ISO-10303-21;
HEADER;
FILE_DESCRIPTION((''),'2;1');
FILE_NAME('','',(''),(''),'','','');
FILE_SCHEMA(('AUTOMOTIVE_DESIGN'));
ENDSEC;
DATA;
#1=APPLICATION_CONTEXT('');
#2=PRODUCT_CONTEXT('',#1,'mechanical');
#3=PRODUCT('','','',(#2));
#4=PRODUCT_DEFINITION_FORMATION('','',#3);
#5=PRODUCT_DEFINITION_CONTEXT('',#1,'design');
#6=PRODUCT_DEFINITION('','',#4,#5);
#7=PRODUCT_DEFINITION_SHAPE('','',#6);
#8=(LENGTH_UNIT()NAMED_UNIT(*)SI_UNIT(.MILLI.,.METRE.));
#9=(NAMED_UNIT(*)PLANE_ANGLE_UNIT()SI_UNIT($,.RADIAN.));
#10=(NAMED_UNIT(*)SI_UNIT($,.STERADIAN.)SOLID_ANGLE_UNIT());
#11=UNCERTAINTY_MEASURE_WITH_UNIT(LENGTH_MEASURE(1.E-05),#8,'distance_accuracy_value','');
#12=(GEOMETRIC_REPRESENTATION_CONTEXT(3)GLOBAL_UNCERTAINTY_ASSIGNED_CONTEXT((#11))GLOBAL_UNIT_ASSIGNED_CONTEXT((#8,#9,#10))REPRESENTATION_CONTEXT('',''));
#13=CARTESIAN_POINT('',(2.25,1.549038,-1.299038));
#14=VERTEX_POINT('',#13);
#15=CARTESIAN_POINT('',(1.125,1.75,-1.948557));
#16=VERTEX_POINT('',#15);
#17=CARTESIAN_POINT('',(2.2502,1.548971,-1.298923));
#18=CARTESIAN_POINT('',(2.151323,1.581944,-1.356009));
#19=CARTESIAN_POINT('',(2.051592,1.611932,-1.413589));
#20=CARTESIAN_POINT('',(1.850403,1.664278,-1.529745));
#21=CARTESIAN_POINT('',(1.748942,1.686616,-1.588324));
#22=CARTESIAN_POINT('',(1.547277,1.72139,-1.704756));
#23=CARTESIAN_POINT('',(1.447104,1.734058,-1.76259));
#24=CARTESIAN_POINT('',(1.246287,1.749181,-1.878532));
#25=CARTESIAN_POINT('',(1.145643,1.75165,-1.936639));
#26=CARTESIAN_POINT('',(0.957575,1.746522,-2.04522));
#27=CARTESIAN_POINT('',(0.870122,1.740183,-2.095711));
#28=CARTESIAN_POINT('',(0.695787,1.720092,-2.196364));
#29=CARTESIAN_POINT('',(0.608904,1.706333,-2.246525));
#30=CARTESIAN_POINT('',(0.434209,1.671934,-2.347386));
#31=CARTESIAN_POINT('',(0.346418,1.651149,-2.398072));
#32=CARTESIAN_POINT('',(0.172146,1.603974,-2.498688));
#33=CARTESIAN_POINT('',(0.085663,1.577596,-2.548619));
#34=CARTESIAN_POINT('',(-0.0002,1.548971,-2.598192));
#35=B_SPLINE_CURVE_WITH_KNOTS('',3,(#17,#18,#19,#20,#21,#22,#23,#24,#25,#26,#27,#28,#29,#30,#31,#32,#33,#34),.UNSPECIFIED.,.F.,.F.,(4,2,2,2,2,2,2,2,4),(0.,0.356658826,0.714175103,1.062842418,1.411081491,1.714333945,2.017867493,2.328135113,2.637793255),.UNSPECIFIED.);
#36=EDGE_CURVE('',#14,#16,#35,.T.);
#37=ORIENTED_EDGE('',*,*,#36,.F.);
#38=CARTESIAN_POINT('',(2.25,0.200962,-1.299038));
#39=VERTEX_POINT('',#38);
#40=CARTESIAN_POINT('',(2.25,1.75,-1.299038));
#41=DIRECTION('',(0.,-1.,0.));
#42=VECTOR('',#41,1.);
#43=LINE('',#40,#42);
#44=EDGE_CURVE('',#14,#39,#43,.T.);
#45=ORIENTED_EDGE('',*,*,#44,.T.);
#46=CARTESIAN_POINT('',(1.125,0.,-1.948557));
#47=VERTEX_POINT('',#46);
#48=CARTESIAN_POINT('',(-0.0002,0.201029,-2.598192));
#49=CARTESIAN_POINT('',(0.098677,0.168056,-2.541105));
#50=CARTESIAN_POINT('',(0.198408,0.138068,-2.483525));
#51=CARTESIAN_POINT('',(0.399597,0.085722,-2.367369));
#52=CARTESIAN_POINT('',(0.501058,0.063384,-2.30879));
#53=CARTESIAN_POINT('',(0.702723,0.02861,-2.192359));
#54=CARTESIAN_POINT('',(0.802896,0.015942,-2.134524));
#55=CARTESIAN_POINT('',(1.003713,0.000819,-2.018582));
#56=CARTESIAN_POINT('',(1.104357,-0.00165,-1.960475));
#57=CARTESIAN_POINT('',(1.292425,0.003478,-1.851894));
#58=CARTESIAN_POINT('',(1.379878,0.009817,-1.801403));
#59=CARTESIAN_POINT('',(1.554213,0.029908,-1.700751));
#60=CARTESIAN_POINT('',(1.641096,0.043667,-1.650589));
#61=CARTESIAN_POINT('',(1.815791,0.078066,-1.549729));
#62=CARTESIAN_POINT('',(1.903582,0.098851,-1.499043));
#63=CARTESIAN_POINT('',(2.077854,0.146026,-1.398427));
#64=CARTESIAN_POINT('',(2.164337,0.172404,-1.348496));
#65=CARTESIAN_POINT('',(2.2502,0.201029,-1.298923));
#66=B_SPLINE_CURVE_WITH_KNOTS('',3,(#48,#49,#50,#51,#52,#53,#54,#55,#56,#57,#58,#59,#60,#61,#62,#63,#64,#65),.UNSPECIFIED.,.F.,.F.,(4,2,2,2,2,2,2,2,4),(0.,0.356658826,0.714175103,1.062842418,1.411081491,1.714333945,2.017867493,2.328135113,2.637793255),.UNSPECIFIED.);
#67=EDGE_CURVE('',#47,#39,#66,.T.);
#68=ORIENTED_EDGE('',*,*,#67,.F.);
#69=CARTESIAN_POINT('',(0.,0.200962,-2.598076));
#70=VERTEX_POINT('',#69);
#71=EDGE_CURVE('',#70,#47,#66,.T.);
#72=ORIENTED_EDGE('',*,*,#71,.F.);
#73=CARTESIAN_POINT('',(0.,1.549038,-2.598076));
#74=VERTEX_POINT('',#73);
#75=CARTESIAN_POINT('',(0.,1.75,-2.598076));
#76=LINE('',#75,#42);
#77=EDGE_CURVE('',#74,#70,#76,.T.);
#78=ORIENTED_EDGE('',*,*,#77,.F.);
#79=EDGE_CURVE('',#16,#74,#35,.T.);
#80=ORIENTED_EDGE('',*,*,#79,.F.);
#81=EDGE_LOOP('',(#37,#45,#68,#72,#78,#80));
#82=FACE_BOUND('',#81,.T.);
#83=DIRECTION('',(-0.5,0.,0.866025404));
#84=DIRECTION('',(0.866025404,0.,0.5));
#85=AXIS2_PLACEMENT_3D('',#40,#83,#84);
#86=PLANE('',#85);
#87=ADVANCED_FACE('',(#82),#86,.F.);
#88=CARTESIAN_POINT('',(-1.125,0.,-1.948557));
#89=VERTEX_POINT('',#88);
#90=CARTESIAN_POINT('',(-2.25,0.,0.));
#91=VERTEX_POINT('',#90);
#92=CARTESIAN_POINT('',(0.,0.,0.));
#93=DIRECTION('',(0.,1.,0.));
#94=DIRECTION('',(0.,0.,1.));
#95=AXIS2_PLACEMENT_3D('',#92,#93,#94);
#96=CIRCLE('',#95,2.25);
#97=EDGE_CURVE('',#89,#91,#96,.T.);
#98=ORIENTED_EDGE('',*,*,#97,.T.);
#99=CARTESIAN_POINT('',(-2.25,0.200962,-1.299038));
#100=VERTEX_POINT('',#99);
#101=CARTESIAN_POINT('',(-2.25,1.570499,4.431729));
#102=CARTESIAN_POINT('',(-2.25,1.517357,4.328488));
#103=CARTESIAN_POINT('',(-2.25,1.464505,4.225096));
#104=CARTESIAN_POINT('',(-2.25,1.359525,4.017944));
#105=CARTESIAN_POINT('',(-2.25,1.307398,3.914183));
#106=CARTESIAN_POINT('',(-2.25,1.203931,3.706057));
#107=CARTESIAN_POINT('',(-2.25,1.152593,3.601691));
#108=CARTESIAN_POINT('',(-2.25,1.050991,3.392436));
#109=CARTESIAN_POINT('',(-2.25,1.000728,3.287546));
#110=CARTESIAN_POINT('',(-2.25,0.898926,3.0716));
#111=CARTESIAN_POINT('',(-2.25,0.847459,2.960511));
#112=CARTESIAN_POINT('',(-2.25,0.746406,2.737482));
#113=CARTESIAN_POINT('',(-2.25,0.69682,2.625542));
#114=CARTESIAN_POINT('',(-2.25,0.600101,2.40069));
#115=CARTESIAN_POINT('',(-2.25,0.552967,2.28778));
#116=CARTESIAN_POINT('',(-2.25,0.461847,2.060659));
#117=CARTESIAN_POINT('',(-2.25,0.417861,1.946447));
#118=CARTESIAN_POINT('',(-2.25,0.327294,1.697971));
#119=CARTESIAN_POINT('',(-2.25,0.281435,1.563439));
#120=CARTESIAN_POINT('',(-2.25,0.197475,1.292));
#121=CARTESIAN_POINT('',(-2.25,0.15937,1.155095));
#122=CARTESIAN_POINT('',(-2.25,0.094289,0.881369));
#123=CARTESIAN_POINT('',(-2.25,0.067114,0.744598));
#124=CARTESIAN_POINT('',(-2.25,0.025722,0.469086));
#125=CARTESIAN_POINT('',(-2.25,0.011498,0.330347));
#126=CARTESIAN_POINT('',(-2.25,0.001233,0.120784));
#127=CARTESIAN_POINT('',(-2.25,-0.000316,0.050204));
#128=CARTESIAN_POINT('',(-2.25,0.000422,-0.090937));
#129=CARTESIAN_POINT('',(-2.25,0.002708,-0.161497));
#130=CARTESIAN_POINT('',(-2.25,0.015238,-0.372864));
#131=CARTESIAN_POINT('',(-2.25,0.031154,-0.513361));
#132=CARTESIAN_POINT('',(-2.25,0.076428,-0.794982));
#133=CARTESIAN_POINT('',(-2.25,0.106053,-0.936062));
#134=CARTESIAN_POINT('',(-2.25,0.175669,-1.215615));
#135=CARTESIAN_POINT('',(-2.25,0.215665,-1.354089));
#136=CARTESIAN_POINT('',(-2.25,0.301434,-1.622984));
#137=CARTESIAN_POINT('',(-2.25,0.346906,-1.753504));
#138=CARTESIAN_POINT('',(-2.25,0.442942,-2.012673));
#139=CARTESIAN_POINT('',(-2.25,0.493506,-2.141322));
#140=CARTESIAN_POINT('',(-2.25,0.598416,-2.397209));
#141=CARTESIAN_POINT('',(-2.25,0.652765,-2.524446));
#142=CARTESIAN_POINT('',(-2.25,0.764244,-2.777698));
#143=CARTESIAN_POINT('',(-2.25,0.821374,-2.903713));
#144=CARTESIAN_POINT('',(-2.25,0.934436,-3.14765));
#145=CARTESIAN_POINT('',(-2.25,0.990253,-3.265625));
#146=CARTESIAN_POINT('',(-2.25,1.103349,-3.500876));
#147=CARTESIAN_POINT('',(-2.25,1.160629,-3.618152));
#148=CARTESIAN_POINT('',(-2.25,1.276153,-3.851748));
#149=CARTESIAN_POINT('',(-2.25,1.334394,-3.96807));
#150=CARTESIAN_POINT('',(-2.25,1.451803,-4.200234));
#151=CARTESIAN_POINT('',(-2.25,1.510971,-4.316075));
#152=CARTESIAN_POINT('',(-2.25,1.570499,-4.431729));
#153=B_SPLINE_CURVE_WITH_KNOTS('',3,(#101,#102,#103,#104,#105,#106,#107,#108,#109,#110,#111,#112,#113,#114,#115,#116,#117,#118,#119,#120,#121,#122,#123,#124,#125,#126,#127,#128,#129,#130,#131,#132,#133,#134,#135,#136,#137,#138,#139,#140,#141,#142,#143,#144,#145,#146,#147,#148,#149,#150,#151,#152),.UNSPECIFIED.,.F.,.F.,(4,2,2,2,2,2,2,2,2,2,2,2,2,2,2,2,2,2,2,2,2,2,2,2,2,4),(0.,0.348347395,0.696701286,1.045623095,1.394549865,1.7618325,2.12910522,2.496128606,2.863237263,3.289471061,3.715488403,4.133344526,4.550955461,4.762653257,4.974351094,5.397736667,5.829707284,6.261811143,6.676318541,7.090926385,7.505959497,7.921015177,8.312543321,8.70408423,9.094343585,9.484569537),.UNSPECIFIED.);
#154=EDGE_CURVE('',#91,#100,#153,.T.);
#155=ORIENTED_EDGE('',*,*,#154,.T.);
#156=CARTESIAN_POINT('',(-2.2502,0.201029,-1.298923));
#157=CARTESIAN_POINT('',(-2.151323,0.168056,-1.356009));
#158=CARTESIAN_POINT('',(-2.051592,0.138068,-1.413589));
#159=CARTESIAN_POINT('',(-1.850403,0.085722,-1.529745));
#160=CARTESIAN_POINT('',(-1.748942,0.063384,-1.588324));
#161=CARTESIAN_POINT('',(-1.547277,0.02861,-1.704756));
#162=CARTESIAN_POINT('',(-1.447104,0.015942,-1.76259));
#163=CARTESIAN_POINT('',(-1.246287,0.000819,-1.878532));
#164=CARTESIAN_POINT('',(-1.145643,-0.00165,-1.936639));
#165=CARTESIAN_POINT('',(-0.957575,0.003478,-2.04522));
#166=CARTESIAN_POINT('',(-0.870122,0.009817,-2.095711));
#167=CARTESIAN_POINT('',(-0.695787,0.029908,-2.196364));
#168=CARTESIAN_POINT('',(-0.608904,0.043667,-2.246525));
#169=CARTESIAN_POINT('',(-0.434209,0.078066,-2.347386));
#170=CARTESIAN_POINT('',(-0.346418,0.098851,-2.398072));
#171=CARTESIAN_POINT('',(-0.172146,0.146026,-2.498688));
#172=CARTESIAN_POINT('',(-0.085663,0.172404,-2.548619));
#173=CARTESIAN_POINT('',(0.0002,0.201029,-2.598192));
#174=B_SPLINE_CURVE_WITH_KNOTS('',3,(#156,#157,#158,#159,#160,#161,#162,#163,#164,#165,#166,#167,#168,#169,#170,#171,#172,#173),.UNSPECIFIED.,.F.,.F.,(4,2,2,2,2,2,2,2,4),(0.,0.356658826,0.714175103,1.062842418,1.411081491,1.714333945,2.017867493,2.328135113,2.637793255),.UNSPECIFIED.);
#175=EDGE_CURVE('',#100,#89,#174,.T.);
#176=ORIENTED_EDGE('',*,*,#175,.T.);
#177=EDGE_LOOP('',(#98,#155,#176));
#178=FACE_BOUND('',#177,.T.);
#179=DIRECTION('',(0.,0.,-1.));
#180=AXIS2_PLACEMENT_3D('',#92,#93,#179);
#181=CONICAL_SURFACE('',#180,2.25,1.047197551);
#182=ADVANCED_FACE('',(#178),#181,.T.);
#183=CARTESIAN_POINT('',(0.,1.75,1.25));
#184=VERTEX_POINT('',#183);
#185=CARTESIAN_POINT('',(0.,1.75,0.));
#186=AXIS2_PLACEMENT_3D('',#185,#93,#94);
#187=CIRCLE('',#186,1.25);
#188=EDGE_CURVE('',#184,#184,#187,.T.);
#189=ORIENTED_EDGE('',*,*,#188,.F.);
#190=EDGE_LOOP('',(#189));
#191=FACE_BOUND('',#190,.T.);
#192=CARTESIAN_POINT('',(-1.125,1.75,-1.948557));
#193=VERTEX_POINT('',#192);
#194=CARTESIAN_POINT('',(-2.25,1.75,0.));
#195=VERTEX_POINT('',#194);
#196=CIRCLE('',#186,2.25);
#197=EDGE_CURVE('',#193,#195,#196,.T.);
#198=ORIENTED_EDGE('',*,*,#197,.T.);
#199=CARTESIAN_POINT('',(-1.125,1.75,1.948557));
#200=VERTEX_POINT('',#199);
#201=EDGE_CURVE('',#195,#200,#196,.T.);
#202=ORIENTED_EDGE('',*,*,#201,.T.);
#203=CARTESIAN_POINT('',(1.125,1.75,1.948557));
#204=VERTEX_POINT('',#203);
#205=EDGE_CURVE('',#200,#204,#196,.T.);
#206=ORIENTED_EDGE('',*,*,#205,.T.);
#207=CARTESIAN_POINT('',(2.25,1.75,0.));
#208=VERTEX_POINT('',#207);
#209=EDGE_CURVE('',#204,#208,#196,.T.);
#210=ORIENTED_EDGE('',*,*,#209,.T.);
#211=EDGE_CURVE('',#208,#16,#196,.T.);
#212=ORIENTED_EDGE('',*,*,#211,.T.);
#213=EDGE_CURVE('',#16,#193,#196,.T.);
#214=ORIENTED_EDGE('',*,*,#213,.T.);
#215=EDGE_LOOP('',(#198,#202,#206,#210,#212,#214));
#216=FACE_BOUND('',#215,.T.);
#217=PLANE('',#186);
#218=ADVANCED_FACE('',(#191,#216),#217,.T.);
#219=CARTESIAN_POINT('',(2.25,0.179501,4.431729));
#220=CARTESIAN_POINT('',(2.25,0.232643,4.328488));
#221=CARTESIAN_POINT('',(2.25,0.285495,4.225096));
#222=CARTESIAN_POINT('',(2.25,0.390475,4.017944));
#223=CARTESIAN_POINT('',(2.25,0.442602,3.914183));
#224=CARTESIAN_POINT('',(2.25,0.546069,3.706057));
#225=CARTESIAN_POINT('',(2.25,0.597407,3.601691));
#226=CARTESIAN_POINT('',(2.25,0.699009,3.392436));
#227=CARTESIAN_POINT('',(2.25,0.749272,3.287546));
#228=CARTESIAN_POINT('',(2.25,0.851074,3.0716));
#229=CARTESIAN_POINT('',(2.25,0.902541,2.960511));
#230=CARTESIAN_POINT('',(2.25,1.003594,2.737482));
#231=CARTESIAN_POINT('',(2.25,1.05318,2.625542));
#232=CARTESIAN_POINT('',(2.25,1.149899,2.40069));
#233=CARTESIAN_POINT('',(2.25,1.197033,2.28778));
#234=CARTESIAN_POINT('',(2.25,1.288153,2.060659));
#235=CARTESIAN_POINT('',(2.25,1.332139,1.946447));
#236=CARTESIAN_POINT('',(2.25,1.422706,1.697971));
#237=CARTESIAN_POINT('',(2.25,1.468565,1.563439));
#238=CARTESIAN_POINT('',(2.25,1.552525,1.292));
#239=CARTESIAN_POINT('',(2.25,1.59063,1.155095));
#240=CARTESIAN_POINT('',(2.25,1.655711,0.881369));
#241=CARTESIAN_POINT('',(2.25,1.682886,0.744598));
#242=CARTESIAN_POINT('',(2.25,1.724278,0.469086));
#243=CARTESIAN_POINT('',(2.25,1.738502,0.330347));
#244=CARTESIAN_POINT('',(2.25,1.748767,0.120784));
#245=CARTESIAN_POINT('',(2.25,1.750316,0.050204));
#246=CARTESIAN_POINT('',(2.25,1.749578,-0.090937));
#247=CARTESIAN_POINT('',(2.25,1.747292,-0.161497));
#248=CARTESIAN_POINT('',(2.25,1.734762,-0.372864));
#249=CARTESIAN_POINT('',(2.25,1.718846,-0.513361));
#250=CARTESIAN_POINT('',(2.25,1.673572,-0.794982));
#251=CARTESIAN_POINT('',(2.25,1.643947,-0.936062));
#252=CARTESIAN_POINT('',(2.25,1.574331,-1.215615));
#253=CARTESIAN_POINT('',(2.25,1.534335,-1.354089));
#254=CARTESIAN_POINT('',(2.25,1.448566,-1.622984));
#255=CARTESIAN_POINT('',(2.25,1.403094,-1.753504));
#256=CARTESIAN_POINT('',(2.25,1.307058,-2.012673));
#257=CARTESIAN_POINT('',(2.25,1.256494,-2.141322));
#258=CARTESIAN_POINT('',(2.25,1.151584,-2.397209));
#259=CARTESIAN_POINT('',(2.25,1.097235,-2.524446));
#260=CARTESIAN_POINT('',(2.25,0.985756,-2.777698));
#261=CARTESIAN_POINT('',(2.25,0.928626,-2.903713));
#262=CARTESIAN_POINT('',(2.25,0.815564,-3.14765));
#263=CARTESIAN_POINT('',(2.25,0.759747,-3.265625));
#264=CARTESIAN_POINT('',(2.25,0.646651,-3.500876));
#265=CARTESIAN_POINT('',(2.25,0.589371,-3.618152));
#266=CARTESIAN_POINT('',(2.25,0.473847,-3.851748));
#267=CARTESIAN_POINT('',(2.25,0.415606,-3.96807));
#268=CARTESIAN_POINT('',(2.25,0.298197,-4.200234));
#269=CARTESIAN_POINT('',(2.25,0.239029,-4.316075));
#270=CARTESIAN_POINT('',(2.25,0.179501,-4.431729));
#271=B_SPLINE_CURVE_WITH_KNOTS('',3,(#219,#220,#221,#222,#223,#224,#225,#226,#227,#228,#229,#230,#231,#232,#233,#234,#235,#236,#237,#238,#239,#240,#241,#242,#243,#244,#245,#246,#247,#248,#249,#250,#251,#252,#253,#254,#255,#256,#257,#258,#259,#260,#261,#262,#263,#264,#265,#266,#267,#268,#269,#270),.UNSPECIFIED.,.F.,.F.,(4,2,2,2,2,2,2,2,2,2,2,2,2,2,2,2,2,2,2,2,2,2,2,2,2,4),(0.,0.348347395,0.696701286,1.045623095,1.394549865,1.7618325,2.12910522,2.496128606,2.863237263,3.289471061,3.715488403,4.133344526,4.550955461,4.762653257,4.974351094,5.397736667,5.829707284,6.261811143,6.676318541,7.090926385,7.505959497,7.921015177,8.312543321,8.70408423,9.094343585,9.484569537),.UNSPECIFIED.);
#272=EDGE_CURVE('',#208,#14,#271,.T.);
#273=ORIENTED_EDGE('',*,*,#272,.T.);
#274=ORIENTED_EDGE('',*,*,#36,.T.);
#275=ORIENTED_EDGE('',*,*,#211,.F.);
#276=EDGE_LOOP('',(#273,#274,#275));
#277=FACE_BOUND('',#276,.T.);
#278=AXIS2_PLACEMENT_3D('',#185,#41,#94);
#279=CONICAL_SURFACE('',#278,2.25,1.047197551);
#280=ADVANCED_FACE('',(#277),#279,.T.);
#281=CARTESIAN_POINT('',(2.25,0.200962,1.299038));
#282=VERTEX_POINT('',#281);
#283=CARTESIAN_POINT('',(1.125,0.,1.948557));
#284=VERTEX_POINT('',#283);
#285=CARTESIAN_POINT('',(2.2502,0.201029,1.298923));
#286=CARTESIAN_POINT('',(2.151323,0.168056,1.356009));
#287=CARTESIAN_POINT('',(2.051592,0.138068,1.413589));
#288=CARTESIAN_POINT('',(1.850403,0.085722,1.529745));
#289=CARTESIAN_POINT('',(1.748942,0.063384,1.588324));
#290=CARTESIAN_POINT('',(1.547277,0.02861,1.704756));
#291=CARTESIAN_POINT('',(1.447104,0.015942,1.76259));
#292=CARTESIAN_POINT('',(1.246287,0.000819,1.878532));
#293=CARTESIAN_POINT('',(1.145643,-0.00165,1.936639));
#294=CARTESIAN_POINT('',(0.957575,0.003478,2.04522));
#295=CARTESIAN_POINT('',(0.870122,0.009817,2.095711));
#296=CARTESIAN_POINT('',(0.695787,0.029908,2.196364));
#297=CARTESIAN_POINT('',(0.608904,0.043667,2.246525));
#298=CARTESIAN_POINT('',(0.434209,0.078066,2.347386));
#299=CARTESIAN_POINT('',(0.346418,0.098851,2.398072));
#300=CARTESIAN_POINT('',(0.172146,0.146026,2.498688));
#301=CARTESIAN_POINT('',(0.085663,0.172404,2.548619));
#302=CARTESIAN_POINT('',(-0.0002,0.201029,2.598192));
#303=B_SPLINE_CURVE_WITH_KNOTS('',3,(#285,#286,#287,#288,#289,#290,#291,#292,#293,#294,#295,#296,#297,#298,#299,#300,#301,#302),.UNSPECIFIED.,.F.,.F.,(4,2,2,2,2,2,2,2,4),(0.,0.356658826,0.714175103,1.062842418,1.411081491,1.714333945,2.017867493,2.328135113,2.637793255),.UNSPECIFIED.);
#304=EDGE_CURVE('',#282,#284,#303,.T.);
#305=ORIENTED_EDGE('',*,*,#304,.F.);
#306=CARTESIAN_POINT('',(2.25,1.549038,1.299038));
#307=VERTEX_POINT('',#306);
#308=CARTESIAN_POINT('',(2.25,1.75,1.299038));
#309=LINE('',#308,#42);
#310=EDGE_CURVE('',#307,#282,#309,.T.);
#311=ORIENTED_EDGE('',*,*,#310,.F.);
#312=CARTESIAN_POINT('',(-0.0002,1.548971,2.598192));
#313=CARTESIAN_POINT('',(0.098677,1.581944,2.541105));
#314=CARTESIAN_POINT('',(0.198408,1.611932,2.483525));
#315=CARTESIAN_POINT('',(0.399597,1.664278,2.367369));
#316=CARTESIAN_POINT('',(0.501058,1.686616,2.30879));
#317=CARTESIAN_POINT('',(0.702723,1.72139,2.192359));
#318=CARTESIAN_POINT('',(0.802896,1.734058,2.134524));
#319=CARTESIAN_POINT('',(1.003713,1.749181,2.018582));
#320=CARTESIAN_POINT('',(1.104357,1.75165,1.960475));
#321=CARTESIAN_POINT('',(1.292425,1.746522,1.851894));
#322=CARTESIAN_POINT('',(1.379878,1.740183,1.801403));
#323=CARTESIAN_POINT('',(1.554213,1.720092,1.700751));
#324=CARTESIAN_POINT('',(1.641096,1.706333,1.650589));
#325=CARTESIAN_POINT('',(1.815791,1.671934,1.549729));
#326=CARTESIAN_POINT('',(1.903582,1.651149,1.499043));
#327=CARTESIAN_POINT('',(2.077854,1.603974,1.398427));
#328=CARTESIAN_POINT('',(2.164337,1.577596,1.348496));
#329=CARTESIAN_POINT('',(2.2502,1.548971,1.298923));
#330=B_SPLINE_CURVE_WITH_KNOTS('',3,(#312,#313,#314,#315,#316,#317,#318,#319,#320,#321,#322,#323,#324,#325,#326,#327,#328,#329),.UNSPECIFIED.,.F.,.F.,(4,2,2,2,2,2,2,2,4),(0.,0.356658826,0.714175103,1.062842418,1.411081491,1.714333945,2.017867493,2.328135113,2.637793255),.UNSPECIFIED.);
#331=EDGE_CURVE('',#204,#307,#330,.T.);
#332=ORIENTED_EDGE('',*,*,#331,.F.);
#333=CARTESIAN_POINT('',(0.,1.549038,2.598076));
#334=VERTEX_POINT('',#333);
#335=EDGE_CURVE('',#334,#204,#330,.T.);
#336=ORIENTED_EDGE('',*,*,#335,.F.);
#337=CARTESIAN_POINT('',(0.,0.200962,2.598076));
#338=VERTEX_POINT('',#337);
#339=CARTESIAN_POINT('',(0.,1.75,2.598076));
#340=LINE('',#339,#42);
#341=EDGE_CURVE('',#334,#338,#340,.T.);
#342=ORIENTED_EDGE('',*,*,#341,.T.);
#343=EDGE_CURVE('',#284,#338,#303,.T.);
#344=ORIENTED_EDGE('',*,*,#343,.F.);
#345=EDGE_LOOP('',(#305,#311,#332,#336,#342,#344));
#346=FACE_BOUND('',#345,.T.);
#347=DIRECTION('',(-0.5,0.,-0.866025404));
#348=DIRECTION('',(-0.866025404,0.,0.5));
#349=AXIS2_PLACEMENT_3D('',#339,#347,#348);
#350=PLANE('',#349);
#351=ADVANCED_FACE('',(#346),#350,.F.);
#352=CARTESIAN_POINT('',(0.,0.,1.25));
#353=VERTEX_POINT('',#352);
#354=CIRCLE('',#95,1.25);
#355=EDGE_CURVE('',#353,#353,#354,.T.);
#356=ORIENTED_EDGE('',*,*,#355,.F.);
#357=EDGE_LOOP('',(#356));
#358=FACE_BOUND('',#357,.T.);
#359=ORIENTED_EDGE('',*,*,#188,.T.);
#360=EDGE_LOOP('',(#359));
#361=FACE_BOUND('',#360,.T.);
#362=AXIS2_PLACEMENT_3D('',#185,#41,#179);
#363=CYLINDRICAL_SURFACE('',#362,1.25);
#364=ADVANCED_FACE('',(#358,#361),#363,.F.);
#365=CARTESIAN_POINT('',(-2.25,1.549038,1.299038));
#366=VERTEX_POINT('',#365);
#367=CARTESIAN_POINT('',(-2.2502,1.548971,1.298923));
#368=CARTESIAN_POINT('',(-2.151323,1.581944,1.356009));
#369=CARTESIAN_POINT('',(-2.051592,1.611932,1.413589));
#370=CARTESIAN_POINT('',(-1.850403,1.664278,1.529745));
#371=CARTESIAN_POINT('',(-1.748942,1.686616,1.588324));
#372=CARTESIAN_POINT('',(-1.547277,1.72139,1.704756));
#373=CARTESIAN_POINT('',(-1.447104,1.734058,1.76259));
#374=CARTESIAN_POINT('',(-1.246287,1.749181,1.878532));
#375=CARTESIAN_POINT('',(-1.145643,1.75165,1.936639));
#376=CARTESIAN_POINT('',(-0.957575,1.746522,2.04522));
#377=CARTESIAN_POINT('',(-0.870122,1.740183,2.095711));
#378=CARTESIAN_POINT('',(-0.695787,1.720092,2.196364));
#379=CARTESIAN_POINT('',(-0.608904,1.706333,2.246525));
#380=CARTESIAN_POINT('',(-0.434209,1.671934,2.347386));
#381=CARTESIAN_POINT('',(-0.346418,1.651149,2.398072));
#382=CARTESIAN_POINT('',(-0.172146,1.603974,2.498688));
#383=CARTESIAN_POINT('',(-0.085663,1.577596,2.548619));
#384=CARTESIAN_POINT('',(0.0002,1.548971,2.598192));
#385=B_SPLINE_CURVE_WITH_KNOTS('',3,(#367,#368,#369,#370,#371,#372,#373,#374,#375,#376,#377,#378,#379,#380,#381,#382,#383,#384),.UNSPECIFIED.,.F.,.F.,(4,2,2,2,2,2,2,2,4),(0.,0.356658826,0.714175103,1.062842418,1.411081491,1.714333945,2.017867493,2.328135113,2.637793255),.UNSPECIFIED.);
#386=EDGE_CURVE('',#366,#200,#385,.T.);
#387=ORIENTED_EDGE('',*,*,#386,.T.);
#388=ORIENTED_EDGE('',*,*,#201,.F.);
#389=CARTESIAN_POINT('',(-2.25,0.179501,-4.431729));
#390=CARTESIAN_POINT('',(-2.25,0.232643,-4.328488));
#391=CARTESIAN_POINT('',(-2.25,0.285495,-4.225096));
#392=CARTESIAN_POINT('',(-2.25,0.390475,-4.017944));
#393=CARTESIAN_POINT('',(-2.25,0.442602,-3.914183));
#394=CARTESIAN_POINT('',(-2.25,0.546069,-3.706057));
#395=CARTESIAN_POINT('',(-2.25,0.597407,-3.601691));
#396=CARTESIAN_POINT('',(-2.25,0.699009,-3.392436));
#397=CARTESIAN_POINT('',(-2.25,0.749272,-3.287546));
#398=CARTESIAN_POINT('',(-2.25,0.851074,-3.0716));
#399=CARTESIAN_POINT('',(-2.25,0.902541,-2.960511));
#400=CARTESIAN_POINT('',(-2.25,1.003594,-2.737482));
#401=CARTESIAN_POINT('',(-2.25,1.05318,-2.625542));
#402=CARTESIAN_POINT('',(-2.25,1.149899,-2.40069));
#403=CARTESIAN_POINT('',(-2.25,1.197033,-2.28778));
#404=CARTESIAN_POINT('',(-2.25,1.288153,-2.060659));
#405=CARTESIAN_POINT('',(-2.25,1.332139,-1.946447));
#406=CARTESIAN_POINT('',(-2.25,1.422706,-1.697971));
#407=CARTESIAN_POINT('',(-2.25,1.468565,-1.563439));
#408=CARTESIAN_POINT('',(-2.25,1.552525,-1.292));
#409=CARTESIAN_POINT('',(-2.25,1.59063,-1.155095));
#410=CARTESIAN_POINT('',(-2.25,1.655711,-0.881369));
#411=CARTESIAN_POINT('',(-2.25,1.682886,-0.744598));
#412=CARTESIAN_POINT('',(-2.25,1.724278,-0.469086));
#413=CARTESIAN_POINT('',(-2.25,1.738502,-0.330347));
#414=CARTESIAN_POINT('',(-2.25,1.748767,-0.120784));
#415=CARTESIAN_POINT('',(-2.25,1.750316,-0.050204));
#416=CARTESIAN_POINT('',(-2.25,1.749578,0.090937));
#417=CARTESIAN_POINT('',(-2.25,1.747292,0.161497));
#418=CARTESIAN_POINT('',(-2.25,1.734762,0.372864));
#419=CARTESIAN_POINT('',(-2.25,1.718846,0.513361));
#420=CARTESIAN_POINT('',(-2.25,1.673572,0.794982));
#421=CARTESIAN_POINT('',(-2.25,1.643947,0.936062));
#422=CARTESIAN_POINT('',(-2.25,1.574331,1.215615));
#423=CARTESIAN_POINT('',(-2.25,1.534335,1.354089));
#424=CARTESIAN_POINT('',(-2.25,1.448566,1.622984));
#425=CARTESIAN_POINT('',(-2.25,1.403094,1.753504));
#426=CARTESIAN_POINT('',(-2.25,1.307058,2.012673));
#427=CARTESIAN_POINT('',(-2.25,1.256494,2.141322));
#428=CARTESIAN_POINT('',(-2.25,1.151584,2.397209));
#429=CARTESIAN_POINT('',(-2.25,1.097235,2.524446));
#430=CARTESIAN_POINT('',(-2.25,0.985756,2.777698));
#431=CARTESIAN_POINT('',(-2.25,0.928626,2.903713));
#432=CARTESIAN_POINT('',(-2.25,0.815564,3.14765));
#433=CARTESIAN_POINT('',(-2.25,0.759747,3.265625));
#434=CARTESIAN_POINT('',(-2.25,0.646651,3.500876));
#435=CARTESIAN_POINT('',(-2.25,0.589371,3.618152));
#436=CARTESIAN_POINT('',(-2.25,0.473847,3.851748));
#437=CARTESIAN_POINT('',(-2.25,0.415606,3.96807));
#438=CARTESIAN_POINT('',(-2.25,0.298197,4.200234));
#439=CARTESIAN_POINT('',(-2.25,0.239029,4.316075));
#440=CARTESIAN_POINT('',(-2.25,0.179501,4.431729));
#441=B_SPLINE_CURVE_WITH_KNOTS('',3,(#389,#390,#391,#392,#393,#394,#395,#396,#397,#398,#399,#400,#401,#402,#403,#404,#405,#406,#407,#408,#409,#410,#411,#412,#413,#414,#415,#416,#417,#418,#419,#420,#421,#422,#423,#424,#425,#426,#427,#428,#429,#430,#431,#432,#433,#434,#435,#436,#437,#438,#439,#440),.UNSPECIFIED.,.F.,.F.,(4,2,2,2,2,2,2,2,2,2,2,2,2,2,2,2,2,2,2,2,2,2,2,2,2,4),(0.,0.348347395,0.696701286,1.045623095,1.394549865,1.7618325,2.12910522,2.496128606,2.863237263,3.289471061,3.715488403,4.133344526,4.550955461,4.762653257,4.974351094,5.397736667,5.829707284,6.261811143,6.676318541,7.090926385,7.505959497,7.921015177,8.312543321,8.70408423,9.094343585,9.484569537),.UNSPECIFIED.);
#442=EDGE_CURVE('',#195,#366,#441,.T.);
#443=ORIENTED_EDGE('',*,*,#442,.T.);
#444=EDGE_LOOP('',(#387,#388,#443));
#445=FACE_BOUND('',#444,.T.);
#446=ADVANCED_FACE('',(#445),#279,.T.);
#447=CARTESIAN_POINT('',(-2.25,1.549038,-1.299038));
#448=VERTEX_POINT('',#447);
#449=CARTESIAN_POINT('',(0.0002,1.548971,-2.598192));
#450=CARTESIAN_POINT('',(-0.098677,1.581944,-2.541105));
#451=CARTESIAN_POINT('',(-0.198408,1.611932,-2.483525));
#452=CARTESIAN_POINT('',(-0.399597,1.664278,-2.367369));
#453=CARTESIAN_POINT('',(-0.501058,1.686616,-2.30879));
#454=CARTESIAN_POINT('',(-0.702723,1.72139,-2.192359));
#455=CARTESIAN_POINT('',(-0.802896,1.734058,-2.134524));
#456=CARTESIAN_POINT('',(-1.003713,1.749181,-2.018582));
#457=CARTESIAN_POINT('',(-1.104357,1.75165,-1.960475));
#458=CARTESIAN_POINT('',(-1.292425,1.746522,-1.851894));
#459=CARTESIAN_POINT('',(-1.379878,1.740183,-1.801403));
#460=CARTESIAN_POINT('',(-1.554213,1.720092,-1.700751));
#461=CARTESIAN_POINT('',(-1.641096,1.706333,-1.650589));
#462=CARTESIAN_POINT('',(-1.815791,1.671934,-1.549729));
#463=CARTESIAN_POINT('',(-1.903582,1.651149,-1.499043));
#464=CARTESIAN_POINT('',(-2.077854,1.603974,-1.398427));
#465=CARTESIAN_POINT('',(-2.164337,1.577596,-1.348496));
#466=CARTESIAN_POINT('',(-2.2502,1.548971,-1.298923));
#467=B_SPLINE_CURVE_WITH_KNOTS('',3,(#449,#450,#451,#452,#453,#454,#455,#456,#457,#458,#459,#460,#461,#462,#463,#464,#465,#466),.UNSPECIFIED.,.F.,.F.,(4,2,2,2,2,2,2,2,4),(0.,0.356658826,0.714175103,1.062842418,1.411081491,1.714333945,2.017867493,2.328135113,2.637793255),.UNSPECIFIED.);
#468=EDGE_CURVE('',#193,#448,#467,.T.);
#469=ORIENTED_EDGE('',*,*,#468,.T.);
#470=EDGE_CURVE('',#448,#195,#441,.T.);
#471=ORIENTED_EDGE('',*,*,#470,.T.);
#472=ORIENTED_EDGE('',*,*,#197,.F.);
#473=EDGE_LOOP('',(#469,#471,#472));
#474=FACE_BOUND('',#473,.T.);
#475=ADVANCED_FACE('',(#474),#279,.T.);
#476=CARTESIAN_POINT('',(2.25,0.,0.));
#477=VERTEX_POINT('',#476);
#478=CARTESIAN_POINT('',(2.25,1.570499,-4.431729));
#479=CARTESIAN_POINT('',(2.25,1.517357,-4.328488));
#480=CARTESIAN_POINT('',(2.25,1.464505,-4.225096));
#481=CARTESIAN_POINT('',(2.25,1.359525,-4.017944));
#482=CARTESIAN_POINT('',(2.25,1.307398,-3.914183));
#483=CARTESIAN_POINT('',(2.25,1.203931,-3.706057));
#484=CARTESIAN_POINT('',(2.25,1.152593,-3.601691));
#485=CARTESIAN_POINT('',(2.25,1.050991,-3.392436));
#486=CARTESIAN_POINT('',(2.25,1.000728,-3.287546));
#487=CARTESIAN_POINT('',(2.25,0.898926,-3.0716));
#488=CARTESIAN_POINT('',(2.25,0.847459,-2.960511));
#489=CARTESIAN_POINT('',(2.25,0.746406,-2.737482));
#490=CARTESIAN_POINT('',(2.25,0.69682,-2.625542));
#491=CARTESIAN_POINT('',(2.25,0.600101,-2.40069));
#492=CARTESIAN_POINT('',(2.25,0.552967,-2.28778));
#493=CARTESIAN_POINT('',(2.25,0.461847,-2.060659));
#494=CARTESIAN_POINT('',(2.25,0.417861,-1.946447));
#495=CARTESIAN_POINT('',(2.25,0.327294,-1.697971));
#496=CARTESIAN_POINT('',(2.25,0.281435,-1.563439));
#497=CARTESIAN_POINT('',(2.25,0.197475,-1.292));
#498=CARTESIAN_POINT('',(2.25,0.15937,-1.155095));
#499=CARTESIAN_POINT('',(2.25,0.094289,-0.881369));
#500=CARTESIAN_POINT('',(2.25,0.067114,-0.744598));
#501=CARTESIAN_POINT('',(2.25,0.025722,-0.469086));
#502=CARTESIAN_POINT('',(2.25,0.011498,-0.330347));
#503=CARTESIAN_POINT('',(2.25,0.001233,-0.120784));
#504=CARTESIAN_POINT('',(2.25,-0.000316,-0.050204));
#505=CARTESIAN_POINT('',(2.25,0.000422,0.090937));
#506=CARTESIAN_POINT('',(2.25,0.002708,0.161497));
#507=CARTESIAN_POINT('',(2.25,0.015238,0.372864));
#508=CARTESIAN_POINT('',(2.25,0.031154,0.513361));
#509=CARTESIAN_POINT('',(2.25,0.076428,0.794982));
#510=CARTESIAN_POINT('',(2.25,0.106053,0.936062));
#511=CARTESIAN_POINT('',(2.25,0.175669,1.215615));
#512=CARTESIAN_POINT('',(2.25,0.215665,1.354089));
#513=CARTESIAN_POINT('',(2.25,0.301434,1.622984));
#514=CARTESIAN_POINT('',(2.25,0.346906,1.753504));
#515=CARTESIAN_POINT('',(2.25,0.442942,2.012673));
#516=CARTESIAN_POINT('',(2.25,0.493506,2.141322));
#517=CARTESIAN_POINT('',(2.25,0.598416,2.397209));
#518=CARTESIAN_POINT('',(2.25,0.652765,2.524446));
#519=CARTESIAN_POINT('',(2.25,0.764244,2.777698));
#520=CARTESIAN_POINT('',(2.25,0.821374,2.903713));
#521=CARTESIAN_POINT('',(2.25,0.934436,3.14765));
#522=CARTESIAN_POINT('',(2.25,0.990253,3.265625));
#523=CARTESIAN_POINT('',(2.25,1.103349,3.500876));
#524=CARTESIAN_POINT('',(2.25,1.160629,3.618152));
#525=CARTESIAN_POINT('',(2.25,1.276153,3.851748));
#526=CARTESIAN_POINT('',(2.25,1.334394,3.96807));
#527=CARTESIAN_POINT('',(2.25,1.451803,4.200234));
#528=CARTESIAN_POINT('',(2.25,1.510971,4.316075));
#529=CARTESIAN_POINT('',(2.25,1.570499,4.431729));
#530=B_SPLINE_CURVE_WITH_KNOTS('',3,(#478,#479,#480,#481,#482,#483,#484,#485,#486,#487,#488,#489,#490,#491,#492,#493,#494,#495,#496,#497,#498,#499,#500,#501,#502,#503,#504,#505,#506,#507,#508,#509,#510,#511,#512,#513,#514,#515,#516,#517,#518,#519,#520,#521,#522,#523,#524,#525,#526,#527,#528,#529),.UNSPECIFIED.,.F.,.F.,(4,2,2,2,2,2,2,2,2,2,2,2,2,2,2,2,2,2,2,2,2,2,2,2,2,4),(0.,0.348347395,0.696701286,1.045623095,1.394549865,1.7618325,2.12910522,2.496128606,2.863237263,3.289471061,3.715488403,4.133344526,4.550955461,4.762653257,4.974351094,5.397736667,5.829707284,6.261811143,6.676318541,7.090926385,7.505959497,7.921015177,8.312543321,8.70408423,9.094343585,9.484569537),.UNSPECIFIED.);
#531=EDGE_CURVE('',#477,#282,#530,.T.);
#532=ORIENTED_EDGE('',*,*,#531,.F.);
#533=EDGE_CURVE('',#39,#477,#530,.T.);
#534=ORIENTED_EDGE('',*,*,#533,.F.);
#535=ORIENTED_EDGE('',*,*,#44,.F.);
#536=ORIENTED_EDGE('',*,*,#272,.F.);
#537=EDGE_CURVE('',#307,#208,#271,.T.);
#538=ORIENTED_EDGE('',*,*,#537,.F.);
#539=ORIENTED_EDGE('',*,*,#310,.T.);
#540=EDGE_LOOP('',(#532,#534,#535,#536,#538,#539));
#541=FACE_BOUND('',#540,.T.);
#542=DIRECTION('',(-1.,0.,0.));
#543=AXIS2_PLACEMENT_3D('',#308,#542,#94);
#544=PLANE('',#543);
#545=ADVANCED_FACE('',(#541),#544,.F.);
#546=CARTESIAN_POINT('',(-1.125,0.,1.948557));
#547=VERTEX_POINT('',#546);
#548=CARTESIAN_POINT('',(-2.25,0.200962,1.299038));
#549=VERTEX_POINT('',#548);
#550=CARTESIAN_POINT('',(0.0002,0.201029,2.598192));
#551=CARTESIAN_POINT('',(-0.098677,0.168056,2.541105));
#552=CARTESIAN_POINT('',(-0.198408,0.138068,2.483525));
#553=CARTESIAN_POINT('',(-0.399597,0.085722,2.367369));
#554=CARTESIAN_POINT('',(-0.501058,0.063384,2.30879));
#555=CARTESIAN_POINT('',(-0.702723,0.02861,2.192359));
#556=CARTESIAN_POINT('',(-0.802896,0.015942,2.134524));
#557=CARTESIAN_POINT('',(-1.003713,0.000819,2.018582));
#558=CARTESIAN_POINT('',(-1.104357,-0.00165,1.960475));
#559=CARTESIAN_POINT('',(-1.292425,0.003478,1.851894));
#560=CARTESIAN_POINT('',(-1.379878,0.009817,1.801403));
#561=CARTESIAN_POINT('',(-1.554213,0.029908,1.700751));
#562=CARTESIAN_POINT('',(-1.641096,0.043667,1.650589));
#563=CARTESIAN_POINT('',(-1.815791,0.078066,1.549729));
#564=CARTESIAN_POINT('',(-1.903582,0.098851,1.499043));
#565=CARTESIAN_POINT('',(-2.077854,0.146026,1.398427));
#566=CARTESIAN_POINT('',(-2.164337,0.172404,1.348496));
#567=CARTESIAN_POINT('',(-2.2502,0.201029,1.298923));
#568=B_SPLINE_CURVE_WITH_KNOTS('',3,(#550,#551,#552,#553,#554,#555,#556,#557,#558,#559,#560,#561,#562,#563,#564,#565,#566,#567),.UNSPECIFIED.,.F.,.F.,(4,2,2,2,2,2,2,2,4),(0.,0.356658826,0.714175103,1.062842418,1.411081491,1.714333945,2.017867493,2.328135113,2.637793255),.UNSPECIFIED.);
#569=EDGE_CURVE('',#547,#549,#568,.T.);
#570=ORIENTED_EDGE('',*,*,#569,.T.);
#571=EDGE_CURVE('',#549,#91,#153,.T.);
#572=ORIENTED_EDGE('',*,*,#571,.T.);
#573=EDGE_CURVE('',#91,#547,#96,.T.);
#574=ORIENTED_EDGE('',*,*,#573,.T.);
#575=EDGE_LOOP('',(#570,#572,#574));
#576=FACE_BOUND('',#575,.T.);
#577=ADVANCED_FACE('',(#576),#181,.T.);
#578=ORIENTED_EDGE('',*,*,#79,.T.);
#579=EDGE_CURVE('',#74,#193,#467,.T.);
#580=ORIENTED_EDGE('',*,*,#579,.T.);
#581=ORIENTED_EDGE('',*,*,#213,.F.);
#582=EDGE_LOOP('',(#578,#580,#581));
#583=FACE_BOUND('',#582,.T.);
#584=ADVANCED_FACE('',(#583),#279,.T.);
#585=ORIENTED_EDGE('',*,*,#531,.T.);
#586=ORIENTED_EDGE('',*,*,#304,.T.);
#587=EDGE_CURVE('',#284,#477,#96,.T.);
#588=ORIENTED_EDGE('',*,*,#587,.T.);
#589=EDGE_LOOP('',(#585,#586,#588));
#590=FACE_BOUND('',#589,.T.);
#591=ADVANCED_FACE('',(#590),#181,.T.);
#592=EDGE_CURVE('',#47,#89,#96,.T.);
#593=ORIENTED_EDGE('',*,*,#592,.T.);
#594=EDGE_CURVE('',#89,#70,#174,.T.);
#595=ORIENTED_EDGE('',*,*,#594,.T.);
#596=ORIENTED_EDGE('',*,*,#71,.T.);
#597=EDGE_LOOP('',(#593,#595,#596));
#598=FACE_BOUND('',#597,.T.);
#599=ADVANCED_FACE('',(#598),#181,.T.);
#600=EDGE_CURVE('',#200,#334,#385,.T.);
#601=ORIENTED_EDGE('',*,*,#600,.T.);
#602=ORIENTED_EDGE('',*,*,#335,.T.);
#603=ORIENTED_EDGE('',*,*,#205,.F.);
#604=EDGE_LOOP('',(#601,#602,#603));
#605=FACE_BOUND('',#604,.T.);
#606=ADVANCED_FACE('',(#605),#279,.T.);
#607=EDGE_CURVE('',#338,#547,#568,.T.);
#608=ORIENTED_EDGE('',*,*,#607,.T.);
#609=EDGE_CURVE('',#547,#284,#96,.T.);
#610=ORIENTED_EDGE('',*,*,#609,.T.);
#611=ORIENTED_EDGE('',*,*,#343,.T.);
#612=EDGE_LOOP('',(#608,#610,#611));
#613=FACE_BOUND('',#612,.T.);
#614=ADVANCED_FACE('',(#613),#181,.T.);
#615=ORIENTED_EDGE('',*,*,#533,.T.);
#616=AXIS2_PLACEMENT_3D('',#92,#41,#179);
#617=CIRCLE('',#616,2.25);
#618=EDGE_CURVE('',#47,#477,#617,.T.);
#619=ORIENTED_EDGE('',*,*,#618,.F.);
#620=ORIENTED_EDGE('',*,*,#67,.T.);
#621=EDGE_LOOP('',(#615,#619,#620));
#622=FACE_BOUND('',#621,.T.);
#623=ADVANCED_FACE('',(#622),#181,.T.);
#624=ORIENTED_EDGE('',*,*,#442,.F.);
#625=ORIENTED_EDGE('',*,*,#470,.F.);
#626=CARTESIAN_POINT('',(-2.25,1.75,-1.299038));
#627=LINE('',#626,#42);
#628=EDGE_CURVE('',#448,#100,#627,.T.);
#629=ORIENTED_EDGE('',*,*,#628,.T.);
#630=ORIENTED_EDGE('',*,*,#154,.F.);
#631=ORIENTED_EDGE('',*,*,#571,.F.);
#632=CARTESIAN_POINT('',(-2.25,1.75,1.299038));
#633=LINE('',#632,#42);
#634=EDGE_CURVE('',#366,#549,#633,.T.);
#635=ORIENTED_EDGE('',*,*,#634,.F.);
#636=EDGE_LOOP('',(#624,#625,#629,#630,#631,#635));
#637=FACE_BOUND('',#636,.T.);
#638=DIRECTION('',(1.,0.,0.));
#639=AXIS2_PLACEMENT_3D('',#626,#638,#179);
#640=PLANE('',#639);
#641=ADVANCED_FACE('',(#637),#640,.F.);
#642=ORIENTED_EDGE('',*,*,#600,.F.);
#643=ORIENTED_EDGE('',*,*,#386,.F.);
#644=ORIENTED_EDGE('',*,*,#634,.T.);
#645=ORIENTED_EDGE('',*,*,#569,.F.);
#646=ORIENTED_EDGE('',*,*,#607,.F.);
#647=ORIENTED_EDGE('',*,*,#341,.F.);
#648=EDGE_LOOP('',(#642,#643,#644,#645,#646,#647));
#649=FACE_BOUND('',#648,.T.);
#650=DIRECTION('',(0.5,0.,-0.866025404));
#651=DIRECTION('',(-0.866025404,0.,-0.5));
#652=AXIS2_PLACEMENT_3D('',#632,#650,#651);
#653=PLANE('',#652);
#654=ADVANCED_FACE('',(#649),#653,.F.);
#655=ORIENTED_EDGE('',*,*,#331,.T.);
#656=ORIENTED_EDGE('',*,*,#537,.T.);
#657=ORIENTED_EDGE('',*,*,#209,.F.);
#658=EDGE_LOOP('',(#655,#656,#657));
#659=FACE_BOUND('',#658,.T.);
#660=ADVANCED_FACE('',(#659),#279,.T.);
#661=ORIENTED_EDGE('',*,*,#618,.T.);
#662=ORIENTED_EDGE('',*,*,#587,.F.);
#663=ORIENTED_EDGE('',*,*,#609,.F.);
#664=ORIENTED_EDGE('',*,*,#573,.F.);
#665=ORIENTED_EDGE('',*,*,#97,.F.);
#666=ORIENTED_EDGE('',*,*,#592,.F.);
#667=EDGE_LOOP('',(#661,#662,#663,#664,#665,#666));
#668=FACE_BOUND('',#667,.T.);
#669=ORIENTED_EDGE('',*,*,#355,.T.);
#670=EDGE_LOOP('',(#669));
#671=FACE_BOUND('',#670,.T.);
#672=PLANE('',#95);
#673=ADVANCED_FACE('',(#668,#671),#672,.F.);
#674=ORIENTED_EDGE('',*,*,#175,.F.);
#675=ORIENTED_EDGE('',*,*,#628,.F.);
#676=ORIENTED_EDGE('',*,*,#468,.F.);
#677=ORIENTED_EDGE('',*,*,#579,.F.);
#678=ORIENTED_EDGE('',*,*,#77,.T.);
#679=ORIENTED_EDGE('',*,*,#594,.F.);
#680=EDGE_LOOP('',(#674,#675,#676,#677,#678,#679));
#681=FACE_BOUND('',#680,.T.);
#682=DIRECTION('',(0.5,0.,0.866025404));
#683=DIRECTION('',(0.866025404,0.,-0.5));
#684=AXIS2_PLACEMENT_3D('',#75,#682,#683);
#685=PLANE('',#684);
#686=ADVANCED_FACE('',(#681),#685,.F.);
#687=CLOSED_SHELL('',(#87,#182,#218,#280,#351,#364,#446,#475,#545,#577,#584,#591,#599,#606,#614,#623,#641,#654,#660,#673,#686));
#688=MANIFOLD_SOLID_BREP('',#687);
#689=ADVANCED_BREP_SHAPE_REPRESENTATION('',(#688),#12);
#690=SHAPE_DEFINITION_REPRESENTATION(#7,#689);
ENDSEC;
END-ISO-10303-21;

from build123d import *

# Parameters (mm, degrees)
SKETCH1_R           = 1.25
BOSS_EXTRUDE1_DEPTH = 1.75
SKETCH2_OUTSIDE_W   = 14.846
SKETCH2_OUTSIDE_H   = 15.542
SKETCH2_OUTSIDE_R   = 2.25
CUT_EXTRUDE1_DEPTH  = 2
CUT_EXTRUDE1_DRAFT  = -60
SKETCH3_OUTSIDE_W   = 14.846
SKETCH3_OUTSIDE_H   = 15.542
SKETCH3_OUTSIDE_R   = 2.25
CUT_EXTRUDE2_DEPTH  = 2
CUT_EXTRUDE2_DRAFT  = -60


with BuildPart() as part:
    # Sketch1 → Boss-Extrude1 (new body)
    with BuildSketch(Plane(origin=(0, 0, 0), x_dir=(1, 0, 0), z_dir=(0, 1, 0))):
        Polygon((0, -2.598076211), (2.25, -1.299038106), (2.25, 1.299038106), (0, 2.598076211), (-2.25, 1.299038106), (-2.25, -1.299038106), align=None)
        with Locations(Location((0, 0, 0), (0, 0, 270))):
            Circle(SKETCH1_R, mode=Mode.SUBTRACT)
    extrude(amount=BOSS_EXTRUDE1_DEPTH)


with BuildPart() as cut_extrude1_tool:
    # Sketch2 outside → Cut-Extrude1 (with draft: the straight prism first)
    with BuildSketch(Plane(origin=(0, 1.75, 0), x_dir=(1, 0, 0), z_dir=(0, 1, 0))):
        Rectangle(SKETCH2_OUTSIDE_W, SKETCH2_OUTSIDE_H)
        Circle(SKETCH2_OUTSIDE_R, mode=Mode.SUBTRACT)
    extrude(amount=-CUT_EXTRUDE1_DEPTH)
    # Cut-Extrude1: the draft: its side faces are tilted about the plane it starts from
    cut_extrude1_sides = [cut_extrude1_tool.faces().sort_by_distance(p)[0] for p in [
        (0, 0.75, 7.771),
        (7.423, 0.75, 0),
        (0, 0.75, -7.771),
        (-7.423, 0.75, 0),
        (-2.25, 0.75, 0),
    ]]
    draft(cut_extrude1_sides, Plane(origin=(0, 1.75, 0), x_dir=(1, 0, 0), z_dir=(0, 1, 0)), CUT_EXTRUDE1_DRAFT)


with BuildPart() as part_1:
    add(part.part)

    # Cut-Extrude1: cut by cut_extrude1_tool
    add(cut_extrude1_tool.part, mode=Mode.SUBTRACT)


with BuildPart() as cut_extrude2_tool:
    # Sketch3 outside → Cut-Extrude2 (with draft: the straight prism first)
    with BuildSketch(Plane.XZ):
        Rectangle(SKETCH3_OUTSIDE_W, SKETCH3_OUTSIDE_H)
        Circle(SKETCH3_OUTSIDE_R, mode=Mode.SUBTRACT)
    extrude(amount=-CUT_EXTRUDE2_DEPTH)
    # Cut-Extrude2: the draft: its side faces are tilted about the plane it starts from
    cut_extrude2_sides = [cut_extrude2_tool.faces().sort_by_distance(p)[0] for p in [
        (0, 1, -7.771),
        (7.423, 1, 0),
        (0, 1, 7.771),
        (-7.423, 1, 0),
        (-2.25, 1, 0),
    ]]
    draft(cut_extrude2_sides, Plane.XZ, CUT_EXTRUDE2_DRAFT)


with BuildPart() as part_2:
    add(part_1.part)

    # Cut-Extrude2: cut by cut_extrude2_tool
    add(cut_extrude2_tool.part, mode=Mode.SUBTRACT)


solid = part_2.part
